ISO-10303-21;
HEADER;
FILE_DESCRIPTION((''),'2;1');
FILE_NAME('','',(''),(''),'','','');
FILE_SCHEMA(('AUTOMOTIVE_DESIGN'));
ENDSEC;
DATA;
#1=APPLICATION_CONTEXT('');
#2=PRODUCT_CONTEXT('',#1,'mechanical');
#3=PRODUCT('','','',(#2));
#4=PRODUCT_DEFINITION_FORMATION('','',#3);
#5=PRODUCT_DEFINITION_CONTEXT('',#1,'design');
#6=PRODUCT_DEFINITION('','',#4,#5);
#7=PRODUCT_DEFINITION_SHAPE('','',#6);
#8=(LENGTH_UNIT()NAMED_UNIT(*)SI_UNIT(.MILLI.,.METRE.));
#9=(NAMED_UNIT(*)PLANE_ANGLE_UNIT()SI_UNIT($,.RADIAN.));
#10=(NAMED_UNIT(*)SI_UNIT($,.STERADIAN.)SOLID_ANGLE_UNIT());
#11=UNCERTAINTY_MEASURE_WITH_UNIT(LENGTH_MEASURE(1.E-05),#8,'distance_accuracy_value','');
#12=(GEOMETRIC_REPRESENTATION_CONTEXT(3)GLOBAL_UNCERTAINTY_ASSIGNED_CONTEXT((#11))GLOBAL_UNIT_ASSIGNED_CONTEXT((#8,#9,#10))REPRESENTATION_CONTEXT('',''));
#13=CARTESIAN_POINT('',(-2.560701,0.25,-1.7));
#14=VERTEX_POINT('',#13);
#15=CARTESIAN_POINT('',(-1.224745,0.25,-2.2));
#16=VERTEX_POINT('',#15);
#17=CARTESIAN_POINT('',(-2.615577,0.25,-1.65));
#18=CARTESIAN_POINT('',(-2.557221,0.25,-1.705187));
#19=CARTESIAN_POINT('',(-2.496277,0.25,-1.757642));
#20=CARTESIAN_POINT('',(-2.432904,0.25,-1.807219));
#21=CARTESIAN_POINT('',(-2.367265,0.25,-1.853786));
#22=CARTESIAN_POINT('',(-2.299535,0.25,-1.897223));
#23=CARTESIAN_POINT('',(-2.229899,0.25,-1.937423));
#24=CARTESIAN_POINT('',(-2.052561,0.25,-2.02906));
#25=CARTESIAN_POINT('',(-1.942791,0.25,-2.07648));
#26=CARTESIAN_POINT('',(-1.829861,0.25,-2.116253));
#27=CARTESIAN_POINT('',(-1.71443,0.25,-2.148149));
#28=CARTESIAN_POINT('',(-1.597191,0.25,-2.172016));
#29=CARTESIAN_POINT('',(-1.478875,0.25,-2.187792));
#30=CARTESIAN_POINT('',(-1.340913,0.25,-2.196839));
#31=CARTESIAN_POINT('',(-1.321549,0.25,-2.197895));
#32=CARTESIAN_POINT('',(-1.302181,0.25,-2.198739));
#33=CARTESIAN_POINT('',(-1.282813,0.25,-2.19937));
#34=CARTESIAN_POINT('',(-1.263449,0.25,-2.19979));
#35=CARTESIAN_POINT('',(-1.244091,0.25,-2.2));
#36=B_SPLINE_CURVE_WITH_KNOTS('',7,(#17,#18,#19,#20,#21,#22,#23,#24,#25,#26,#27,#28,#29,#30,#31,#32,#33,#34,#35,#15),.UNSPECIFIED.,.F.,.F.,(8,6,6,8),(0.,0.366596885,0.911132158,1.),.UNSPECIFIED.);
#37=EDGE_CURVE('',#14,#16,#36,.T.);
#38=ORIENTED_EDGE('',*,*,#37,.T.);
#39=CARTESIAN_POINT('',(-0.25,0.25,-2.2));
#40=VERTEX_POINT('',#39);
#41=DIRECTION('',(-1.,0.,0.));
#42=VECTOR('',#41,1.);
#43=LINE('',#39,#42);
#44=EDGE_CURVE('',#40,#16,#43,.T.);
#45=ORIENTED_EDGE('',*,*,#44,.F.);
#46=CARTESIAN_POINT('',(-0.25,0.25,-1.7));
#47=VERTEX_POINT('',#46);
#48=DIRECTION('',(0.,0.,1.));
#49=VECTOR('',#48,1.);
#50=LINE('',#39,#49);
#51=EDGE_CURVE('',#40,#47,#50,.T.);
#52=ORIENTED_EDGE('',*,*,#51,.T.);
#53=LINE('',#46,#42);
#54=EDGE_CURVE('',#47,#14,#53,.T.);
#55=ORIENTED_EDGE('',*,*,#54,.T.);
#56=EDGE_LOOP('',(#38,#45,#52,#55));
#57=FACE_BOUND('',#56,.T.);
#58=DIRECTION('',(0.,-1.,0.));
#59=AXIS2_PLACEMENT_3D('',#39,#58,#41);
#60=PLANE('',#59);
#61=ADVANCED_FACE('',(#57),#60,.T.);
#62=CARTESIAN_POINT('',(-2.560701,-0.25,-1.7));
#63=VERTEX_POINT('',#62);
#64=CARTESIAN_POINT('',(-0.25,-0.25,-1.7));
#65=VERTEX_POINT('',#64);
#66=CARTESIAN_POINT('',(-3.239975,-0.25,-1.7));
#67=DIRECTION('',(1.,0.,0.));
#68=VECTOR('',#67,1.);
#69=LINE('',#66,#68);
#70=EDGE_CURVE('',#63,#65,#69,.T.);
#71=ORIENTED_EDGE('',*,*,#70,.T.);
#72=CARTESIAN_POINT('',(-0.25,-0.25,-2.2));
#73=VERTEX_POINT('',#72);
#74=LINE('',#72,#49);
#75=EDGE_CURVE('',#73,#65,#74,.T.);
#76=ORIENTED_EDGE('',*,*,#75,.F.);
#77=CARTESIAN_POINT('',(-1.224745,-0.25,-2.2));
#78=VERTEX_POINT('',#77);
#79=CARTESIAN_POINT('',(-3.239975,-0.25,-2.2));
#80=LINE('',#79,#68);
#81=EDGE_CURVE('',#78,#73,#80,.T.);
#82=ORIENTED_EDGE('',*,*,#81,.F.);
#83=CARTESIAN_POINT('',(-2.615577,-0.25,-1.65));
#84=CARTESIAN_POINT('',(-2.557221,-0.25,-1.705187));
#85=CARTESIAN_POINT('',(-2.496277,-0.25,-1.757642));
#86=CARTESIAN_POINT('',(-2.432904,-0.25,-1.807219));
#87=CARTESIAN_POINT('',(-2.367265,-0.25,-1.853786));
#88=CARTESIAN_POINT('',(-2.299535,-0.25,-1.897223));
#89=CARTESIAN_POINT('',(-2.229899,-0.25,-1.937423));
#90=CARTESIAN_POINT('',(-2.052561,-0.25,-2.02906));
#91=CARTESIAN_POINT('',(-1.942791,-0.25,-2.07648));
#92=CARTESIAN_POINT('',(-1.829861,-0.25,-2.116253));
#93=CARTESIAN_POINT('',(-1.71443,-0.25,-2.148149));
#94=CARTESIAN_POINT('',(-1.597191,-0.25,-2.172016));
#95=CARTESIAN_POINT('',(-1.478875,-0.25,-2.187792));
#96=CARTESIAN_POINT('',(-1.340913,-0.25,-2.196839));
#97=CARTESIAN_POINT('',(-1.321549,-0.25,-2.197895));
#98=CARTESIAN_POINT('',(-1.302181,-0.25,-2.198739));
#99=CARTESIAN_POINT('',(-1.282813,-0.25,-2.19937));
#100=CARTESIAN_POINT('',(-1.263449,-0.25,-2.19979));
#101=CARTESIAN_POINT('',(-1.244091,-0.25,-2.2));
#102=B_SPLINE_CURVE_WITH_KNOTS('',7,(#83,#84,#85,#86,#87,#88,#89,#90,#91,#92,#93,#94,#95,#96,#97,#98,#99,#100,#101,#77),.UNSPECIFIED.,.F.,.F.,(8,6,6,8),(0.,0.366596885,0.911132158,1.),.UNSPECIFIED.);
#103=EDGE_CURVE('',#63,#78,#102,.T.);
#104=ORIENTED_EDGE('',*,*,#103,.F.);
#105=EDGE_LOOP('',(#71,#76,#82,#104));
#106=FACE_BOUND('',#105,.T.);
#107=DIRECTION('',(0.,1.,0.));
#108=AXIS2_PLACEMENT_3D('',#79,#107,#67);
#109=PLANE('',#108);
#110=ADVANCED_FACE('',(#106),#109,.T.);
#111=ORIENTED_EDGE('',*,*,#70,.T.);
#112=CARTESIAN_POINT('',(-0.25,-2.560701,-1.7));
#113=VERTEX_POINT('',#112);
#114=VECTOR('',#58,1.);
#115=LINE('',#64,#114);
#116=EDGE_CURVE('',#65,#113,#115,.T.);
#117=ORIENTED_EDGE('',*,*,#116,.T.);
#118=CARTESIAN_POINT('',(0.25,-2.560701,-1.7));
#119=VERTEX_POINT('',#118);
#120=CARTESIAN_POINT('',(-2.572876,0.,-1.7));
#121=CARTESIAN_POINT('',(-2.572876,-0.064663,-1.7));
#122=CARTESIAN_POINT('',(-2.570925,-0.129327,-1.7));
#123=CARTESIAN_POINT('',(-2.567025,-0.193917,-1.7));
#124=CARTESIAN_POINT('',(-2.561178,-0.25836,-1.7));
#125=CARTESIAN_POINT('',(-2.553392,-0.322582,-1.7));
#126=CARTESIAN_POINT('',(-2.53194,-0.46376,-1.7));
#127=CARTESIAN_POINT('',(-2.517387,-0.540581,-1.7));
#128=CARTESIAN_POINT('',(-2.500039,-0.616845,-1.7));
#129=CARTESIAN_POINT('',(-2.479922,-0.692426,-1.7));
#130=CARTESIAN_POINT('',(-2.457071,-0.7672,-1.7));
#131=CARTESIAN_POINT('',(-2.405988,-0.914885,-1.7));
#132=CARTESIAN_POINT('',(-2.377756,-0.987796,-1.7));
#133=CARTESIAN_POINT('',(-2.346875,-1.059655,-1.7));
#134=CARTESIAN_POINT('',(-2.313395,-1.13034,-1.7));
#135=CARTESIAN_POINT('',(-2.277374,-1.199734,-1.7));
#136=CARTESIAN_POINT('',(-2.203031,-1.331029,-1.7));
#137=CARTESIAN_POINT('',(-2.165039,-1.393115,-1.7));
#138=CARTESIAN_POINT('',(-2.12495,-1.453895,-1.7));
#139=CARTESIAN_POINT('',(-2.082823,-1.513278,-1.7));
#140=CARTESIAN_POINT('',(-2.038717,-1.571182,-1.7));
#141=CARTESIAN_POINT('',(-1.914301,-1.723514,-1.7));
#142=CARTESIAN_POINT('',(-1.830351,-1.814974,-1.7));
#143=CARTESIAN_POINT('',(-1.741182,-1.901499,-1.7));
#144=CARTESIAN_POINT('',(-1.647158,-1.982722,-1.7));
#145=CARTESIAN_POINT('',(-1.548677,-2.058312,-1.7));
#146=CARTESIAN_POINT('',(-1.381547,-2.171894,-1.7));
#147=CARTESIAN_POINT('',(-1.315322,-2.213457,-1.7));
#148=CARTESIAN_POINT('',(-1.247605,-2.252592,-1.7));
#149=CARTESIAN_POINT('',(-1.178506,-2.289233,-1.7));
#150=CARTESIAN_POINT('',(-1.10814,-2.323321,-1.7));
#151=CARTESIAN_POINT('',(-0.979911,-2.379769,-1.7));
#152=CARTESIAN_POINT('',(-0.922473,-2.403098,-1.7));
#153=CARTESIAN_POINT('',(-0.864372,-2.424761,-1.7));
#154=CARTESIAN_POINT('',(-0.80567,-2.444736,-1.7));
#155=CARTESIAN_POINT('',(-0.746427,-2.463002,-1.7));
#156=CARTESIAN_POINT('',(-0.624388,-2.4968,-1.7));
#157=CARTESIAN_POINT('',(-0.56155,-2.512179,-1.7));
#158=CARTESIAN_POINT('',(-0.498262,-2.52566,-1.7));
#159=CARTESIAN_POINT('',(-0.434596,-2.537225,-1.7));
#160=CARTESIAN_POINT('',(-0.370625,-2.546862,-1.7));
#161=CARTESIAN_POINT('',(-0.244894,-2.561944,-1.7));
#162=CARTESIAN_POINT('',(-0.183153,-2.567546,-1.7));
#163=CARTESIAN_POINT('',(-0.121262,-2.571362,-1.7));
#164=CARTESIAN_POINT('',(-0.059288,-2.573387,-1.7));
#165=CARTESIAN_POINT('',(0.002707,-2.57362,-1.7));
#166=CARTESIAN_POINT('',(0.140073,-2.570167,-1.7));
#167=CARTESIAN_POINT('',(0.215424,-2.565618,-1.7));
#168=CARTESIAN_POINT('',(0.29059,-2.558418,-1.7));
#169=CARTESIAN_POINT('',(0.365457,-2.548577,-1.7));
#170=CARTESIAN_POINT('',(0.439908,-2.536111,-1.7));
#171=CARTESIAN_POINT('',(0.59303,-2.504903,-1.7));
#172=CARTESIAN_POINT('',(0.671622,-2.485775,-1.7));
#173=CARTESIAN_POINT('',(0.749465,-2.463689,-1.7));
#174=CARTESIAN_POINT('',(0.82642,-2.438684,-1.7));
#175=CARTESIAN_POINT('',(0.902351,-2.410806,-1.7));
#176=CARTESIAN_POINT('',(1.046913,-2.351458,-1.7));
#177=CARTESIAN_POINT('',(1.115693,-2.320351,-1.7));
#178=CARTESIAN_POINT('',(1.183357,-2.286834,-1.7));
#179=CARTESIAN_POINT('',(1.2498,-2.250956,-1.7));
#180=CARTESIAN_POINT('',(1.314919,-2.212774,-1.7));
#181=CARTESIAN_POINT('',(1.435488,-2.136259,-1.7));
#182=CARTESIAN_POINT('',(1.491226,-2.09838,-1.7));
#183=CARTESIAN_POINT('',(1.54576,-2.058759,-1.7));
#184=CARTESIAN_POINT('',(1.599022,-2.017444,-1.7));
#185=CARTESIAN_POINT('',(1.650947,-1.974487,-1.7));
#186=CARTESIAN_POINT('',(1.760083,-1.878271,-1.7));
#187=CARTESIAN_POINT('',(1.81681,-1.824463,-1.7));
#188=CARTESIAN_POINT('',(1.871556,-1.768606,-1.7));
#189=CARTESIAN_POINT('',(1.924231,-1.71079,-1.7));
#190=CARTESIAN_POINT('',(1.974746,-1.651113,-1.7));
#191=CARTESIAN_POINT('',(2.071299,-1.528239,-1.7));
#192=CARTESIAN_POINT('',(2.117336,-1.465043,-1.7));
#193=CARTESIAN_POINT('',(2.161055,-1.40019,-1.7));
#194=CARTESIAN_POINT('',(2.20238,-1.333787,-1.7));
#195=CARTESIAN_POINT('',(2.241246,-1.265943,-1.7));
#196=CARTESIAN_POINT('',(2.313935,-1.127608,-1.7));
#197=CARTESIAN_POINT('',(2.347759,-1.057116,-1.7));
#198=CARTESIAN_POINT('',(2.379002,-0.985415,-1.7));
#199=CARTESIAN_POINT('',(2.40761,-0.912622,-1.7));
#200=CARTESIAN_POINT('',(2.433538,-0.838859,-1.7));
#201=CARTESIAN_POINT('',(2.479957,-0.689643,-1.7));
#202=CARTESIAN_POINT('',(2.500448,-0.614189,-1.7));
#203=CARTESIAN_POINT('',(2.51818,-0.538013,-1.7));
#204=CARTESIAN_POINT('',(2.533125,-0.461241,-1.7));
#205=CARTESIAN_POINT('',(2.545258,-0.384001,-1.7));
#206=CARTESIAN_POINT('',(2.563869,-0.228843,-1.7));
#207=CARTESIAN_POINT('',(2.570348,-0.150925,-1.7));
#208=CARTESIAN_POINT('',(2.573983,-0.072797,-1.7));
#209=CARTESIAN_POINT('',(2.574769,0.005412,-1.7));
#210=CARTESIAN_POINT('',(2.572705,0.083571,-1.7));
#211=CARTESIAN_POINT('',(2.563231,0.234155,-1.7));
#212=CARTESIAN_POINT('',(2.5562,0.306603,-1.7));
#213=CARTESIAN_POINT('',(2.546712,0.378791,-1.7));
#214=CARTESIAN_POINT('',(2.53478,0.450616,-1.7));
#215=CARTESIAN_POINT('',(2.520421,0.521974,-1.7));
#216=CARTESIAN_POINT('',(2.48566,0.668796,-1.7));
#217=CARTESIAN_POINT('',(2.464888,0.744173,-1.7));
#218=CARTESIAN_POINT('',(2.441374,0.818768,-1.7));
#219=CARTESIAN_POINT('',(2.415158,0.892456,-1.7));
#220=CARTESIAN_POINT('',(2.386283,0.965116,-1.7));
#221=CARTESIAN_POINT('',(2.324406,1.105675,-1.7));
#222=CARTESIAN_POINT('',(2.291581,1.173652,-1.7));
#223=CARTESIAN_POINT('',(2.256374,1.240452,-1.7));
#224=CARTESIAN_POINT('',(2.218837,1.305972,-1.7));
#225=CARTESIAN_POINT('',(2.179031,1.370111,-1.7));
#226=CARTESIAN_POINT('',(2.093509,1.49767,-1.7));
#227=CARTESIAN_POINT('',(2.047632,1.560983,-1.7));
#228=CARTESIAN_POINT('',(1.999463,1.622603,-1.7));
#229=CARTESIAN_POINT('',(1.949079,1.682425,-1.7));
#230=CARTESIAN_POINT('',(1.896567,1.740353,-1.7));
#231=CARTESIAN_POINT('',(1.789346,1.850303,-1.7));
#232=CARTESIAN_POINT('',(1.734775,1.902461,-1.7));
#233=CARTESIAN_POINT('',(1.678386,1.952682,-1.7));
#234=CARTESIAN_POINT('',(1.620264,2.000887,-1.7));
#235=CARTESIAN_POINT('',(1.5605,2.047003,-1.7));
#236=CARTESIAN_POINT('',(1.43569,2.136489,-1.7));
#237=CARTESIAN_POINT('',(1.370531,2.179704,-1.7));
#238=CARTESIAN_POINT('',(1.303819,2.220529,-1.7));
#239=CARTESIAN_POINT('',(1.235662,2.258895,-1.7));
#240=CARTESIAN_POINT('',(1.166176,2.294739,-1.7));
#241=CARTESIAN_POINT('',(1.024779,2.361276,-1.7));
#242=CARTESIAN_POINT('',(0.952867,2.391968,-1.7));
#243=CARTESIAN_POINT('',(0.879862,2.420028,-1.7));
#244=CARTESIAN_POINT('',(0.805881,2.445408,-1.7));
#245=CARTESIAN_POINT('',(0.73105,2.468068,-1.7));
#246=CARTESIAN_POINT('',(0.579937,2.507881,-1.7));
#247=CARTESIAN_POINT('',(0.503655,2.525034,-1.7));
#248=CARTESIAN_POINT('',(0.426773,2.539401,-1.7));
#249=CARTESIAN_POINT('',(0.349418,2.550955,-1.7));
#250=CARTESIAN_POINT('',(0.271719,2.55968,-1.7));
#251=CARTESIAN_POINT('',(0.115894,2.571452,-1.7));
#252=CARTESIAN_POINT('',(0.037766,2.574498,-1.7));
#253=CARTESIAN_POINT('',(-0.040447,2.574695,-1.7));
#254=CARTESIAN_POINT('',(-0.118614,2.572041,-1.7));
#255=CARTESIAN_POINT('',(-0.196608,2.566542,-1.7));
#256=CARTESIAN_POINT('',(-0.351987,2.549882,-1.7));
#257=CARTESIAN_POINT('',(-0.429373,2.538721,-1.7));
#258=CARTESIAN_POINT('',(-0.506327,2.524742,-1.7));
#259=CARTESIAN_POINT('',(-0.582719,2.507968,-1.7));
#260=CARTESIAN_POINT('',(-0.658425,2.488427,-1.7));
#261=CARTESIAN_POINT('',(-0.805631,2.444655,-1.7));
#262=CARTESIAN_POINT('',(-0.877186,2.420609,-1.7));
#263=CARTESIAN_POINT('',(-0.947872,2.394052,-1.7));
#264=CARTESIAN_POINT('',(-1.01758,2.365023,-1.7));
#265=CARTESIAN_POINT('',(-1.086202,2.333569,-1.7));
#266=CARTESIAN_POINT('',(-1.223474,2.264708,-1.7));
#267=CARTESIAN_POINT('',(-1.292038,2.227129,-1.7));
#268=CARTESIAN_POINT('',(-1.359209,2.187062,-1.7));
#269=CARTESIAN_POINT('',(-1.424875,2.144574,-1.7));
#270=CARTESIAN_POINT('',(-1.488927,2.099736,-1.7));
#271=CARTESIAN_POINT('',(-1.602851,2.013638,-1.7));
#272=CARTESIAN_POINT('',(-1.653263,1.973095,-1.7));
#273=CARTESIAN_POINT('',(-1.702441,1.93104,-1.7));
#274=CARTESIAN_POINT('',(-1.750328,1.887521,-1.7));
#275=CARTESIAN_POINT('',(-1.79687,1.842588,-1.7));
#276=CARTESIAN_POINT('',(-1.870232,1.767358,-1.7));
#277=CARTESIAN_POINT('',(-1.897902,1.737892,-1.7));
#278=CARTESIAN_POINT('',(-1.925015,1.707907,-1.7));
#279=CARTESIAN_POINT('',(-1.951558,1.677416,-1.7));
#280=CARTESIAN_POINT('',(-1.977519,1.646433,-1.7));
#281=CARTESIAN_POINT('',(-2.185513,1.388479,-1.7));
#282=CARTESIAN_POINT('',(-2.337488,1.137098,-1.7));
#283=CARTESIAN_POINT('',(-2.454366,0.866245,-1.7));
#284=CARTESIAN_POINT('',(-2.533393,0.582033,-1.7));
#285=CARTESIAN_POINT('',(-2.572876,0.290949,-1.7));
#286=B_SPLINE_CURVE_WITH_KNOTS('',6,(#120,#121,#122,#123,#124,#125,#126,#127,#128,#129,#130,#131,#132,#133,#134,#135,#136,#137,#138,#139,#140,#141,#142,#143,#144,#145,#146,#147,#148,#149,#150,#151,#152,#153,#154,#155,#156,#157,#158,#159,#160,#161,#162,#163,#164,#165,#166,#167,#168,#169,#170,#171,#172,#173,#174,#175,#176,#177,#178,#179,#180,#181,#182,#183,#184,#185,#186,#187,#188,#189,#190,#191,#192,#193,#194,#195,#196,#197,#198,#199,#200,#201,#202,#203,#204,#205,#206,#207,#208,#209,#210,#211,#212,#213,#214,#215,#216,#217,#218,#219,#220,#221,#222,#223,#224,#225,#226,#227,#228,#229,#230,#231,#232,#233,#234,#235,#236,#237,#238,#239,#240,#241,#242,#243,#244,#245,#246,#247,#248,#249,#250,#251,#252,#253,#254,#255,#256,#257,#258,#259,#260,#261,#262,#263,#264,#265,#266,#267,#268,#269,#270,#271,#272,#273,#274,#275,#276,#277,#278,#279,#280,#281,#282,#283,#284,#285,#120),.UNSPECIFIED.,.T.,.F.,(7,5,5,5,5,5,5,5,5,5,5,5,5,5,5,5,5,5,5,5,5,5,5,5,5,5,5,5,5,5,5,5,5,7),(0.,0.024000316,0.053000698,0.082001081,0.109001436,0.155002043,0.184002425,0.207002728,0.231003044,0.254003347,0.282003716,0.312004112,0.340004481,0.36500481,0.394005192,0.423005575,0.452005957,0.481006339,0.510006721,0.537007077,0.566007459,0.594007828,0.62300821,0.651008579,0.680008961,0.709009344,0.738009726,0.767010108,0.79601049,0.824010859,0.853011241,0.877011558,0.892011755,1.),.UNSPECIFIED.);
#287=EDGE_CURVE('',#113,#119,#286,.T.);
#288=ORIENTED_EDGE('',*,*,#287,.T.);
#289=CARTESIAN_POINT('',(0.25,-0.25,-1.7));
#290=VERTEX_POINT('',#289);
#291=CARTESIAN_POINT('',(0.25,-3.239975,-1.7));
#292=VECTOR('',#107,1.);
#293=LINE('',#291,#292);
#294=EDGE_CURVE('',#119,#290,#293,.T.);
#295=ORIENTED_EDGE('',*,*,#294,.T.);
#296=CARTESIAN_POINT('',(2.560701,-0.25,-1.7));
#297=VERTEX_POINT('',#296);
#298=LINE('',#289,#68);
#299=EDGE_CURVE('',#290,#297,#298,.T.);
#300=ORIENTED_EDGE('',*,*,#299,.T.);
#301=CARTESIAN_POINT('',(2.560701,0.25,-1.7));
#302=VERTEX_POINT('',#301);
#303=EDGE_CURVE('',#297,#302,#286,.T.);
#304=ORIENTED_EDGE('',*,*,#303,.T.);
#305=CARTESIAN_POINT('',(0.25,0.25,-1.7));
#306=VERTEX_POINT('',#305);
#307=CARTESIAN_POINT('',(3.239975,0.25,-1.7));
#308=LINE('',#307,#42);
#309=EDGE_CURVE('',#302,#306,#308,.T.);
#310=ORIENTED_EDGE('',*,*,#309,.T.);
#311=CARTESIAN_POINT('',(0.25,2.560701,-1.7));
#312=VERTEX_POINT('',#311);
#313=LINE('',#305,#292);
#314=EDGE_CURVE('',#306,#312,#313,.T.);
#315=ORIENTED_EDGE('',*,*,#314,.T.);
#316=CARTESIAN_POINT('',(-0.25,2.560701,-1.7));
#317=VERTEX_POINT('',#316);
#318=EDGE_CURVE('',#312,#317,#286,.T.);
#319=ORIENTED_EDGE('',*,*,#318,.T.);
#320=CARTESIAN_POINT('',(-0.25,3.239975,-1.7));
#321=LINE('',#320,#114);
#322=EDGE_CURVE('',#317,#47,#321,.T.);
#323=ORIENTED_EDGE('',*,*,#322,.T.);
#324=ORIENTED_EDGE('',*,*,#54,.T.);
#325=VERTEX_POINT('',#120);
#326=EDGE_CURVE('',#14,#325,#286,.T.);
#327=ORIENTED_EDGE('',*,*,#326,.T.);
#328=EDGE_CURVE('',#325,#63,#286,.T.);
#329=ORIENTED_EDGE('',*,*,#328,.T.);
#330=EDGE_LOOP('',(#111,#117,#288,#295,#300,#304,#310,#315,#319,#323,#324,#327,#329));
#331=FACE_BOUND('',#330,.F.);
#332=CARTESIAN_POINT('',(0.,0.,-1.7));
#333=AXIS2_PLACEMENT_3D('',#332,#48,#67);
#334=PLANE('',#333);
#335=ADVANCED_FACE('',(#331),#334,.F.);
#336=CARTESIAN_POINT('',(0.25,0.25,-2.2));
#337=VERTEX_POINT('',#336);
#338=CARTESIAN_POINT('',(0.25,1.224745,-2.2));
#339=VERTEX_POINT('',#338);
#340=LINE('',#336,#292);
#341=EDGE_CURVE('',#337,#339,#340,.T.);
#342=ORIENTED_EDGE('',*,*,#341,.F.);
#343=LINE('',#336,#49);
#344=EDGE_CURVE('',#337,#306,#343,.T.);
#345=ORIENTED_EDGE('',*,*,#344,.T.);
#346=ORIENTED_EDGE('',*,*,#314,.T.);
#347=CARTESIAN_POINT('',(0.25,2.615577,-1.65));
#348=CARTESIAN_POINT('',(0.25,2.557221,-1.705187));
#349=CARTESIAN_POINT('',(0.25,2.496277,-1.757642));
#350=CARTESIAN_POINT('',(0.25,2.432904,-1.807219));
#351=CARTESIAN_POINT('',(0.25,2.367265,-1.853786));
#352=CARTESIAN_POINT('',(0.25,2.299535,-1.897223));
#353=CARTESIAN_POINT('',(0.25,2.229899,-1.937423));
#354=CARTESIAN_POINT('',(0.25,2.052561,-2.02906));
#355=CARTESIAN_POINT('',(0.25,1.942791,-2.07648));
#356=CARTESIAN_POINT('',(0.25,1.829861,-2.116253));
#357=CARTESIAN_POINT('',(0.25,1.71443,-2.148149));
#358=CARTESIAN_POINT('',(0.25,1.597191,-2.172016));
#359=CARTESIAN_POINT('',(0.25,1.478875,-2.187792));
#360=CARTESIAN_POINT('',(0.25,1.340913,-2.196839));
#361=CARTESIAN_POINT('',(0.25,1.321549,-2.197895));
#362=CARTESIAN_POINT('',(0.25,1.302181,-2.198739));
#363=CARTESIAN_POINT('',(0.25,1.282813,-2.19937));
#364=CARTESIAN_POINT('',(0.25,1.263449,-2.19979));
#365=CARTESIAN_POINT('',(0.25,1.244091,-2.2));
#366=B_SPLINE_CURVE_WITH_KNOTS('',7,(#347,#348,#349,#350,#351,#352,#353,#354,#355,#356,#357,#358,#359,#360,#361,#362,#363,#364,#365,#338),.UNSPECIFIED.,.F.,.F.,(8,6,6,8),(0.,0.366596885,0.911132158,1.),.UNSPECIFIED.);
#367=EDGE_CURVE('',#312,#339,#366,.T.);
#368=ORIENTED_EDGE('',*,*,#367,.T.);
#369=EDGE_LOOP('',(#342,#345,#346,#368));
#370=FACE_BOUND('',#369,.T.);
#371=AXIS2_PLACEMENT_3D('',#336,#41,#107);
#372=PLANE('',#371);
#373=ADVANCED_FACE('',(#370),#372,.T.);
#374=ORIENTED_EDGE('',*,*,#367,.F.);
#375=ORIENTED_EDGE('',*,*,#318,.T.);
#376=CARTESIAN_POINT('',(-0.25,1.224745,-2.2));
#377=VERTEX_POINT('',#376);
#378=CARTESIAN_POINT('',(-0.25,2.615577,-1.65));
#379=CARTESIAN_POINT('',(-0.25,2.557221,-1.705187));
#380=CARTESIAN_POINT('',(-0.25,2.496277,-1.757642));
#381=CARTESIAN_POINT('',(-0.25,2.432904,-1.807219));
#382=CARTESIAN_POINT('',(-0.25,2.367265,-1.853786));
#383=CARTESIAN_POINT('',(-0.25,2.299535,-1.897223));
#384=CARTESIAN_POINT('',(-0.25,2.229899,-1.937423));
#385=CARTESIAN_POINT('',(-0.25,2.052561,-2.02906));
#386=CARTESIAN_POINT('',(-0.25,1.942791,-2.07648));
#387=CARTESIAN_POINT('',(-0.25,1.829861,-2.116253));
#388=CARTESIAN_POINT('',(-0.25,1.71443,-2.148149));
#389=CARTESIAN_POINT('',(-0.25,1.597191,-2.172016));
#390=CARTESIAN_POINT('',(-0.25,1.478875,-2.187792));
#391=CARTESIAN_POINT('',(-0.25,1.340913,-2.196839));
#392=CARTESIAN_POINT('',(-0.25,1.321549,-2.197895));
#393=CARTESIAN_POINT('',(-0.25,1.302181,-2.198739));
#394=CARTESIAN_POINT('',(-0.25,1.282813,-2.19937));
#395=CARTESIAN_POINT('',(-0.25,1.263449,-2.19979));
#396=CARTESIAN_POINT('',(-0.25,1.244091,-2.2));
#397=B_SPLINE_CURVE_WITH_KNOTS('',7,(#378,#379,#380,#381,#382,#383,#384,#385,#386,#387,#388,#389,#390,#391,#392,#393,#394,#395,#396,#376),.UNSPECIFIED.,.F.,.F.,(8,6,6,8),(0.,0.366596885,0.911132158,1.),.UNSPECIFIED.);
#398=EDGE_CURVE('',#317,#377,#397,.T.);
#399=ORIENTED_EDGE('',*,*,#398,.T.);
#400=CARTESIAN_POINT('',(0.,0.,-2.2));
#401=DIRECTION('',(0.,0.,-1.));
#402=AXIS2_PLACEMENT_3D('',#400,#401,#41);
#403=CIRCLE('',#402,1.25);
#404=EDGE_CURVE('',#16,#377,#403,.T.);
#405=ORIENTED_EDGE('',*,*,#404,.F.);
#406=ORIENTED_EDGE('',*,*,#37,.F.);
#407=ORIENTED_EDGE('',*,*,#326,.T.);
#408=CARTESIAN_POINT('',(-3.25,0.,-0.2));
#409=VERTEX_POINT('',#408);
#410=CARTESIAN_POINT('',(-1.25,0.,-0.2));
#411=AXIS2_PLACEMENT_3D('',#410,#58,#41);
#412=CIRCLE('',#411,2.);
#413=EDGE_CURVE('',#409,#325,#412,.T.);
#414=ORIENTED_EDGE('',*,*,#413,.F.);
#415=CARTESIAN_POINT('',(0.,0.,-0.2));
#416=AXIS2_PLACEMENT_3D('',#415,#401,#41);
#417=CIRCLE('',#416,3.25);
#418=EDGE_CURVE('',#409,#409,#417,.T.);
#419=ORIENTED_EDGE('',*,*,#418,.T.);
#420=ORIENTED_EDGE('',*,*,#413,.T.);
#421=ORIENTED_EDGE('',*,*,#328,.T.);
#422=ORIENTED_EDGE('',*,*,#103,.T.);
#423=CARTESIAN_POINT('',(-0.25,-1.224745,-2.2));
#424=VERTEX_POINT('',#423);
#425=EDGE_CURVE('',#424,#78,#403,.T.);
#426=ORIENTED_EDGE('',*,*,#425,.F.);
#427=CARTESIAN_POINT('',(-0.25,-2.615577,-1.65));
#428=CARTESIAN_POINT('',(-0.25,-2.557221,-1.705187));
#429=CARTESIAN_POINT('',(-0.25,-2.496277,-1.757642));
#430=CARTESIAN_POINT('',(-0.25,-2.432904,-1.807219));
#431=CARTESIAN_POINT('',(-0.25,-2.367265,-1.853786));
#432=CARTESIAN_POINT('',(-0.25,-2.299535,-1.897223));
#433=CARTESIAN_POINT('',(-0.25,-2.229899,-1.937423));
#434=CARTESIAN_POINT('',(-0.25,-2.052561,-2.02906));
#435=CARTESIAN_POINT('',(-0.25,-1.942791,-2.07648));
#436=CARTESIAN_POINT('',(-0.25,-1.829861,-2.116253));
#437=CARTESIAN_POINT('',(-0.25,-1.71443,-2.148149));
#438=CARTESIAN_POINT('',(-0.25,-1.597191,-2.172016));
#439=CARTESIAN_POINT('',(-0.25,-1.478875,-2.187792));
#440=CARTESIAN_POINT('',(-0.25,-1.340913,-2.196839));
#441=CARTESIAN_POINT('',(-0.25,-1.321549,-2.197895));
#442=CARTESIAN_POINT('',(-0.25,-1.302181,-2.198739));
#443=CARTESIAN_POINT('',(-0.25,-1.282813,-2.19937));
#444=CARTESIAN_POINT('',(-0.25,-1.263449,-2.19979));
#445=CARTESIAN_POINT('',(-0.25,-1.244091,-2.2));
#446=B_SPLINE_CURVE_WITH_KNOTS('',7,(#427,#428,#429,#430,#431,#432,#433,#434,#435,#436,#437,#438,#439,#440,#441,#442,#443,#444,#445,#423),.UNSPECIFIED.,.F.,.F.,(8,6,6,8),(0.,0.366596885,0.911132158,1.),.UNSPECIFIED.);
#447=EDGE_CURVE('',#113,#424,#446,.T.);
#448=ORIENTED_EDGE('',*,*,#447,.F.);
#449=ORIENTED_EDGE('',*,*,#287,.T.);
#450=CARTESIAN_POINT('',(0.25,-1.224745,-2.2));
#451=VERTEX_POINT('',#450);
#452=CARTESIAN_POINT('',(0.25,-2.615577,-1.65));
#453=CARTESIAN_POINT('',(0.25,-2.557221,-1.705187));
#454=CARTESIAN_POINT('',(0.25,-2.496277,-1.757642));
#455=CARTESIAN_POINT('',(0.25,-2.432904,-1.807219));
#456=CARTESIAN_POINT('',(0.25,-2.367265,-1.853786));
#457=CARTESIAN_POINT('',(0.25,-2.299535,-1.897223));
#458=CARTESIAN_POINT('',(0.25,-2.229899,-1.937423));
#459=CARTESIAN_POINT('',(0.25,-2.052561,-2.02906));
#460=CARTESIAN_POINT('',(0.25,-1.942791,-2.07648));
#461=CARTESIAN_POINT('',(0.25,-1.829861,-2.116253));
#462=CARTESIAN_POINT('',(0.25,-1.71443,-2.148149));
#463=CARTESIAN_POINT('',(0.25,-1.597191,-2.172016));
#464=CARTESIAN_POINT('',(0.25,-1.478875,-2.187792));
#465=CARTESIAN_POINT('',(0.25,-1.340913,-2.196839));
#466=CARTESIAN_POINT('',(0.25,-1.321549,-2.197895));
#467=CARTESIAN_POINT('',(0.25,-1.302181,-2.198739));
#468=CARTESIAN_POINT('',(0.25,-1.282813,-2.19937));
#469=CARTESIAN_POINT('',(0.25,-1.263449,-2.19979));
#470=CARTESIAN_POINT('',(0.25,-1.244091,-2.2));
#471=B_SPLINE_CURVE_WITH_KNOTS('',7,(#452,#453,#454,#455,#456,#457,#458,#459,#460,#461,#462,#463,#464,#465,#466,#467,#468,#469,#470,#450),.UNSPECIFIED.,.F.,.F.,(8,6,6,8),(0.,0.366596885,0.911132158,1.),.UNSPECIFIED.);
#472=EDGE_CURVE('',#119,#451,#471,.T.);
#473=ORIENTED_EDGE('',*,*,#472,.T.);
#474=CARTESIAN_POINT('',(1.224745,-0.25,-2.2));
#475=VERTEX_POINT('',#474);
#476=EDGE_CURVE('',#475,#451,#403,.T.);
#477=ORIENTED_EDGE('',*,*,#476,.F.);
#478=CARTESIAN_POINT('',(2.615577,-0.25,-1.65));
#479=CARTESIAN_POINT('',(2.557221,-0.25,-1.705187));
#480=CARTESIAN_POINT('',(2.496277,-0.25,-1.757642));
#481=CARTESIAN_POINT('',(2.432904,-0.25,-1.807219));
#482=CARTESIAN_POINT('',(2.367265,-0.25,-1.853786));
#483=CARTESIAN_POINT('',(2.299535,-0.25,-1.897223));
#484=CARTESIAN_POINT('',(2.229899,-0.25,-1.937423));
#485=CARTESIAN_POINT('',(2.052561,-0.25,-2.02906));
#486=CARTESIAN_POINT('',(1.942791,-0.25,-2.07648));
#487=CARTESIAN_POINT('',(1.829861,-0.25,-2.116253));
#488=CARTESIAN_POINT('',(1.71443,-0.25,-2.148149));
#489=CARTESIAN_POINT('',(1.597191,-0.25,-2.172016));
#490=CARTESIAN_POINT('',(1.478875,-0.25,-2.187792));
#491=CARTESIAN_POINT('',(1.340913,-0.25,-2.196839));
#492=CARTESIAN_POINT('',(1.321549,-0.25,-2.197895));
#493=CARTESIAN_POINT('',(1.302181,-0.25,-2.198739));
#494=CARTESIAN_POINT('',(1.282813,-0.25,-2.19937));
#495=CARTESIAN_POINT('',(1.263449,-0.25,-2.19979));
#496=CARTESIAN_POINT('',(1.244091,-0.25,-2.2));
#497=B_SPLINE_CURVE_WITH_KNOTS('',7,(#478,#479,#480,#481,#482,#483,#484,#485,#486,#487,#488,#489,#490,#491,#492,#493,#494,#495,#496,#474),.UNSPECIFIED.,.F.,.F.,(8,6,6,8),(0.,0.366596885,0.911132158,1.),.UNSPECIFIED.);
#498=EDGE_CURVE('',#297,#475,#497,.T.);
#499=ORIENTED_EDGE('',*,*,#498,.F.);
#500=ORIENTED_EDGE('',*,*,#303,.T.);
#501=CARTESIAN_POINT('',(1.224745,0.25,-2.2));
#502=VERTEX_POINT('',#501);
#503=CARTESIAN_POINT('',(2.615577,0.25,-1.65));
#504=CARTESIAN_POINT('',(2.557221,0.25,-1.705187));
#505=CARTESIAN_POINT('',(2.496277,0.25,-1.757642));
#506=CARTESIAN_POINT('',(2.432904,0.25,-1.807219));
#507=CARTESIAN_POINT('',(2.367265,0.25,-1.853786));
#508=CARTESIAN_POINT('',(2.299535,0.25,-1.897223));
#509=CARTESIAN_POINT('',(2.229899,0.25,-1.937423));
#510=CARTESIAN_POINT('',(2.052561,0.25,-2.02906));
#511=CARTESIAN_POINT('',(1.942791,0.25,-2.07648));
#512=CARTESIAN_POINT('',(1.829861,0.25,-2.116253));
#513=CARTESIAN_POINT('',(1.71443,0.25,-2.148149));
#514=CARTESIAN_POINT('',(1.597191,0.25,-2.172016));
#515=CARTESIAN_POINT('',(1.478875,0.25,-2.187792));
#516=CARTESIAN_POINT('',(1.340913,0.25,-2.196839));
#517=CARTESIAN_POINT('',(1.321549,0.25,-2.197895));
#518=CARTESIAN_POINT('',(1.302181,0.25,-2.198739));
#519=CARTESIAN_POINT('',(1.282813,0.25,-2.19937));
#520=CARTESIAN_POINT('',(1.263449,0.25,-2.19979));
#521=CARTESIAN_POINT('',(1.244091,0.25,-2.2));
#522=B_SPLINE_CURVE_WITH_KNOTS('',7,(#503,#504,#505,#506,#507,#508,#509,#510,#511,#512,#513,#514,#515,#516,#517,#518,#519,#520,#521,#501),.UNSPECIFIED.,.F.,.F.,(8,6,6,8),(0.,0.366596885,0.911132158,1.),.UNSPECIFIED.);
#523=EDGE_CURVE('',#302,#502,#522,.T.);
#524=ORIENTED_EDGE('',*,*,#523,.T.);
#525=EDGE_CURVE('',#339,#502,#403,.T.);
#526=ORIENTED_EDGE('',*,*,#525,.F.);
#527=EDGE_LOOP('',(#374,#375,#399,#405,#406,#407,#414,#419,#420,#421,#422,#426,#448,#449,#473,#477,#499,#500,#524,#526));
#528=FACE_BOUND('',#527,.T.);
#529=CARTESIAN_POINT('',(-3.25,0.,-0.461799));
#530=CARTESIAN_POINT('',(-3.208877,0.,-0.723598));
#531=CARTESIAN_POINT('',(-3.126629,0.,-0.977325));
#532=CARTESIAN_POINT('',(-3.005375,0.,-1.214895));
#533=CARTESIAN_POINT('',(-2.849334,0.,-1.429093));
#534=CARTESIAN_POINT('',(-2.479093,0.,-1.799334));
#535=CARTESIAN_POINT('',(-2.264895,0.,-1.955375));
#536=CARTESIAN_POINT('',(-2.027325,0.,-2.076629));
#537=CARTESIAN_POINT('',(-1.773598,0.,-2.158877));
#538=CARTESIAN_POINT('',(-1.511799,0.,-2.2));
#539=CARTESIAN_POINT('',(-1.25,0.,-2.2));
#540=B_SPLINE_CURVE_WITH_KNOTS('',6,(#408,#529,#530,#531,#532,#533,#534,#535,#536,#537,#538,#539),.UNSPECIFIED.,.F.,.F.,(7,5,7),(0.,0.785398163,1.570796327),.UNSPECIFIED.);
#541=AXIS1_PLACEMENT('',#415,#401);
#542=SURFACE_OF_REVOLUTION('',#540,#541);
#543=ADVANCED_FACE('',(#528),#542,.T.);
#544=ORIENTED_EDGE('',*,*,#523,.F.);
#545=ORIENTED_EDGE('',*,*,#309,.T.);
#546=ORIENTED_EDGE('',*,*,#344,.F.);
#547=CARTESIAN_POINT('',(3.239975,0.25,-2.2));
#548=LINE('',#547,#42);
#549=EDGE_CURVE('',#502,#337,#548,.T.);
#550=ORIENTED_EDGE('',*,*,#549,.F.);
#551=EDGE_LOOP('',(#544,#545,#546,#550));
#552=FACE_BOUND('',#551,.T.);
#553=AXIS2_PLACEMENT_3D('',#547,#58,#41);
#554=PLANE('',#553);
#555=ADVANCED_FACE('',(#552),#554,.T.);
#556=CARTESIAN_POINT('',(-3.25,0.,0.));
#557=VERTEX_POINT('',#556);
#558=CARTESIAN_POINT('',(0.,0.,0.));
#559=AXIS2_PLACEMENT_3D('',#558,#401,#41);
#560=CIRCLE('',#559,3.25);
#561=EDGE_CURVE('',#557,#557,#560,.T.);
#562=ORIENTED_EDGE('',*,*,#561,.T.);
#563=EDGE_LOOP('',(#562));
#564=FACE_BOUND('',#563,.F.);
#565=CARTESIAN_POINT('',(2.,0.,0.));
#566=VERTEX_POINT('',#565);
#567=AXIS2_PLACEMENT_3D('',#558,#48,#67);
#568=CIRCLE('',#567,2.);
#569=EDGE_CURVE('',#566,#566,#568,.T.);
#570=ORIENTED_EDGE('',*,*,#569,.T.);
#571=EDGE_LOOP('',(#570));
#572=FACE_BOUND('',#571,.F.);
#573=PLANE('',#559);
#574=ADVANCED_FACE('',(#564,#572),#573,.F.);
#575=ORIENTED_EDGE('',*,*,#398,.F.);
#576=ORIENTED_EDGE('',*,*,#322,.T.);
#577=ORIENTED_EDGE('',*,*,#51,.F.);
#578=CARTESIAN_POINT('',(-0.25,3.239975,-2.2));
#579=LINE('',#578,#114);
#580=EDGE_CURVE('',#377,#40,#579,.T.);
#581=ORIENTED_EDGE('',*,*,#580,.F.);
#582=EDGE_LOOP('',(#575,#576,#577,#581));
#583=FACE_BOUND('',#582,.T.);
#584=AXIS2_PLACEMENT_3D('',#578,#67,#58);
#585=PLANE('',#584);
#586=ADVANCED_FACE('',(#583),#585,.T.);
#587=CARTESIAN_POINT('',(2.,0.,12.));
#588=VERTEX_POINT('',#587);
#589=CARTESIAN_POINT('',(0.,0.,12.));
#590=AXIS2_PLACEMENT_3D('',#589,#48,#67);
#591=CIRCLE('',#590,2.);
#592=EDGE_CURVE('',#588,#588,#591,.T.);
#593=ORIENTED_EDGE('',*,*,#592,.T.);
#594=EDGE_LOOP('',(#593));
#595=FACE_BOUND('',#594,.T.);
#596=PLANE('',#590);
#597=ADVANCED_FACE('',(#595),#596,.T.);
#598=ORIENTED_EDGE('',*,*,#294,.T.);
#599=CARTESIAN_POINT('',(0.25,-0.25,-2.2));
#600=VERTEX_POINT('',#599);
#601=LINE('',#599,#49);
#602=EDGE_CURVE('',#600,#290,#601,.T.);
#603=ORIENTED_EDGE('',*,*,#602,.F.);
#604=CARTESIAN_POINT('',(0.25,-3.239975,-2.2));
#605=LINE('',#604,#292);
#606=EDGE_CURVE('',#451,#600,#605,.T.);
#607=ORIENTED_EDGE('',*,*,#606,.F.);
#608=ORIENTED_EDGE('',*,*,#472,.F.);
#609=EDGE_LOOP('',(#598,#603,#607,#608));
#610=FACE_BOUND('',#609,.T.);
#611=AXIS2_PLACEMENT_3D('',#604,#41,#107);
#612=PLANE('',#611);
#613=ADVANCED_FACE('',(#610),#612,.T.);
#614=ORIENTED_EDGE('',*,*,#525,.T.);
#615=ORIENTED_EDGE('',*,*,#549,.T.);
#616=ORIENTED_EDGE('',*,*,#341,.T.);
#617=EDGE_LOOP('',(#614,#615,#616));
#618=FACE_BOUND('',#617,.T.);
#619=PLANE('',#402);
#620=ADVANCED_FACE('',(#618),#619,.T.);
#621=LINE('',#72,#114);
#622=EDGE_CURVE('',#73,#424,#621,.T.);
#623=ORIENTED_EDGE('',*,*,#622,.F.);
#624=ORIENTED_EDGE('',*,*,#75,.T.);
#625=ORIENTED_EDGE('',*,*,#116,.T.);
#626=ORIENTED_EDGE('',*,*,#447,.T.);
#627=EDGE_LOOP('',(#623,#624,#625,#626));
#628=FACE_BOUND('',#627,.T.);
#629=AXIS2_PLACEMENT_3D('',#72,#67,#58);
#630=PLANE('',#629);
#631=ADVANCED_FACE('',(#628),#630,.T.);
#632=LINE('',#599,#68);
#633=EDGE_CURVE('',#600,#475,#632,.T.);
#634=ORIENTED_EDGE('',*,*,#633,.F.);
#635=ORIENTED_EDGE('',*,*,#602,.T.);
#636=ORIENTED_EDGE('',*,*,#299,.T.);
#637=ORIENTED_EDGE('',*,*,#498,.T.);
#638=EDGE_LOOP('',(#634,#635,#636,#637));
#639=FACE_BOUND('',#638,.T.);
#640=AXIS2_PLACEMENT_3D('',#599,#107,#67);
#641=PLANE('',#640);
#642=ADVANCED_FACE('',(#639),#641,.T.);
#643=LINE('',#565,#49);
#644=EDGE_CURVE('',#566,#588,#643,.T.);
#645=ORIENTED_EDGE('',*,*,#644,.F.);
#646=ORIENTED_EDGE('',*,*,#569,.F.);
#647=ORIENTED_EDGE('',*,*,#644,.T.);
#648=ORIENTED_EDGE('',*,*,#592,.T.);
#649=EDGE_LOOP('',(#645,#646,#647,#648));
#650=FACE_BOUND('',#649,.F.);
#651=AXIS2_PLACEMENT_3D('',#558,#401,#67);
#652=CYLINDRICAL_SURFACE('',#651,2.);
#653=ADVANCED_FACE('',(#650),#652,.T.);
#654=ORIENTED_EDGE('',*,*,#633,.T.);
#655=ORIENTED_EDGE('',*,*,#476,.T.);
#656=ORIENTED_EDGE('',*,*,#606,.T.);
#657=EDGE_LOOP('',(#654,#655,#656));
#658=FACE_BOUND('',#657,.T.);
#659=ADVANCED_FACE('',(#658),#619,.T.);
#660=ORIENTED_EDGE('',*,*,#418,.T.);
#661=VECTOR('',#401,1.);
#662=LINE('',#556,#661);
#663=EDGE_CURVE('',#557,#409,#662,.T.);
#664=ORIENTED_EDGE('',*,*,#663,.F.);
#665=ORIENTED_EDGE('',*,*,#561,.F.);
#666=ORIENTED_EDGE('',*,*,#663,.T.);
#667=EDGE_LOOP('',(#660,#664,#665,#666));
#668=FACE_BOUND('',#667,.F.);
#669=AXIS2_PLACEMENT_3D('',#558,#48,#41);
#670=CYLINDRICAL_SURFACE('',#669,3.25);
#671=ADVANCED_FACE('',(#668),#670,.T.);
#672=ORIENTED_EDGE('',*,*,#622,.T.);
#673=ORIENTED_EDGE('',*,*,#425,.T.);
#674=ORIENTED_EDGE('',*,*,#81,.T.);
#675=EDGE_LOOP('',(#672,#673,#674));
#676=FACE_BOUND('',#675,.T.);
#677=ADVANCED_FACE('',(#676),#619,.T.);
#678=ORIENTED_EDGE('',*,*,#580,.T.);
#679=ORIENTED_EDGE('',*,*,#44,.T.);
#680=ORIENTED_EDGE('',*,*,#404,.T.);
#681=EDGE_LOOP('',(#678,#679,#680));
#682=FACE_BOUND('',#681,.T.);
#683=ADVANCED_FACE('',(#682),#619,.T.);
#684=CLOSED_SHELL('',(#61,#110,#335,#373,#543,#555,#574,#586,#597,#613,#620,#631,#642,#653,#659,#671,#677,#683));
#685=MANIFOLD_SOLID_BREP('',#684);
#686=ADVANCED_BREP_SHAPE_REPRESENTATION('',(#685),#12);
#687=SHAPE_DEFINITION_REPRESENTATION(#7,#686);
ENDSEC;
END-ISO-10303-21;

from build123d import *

# Parameters (mm, degrees)
SKETCH_1_R          = 2
EXTRUDE_1_DEPTH     = 12
SKETCH_2_R          = 3.25
EXTRUDE_2_DEPTH     = 2.2
FILLET_1_R          = 2
CUT_EXTRUDE_1_DEPTH = 0.5


with BuildPart() as part:
    # 草图1 → 凸台-拉伸1 (new body)
    with BuildSketch(Plane.XY):
        Circle(SKETCH_1_R)
    extrude(amount=EXTRUDE_1_DEPTH)

    # 草图2 → 凸台-拉伸2 (add)
    with BuildSketch(Plane(origin=(0, 0, 0), x_dir=(-1, 0, 0), z_dir=(0, 0, -1))):
        Circle(SKETCH_2_R)
    extrude(amount=EXTRUDE_2_DEPTH)

    # 圆角1
    fillet_1_edges = [part.edges().sort_by_distance(p)[0] for p in [
        (3.25, 0, -2.2),
    ]]
    fillet(fillet_1_edges, radius=FILLET_1_R)

    # 草图3 → 切除-拉伸1 (cut)
    with BuildSketch(Plane(origin=(0, 0, -2.2), x_dir=(-1, 0, 0), z_dir=(0, 0, -1))):
        Polygon((3.239974874, 0.25), (3.239974874, -0.25), (0.25, -0.25), (0.25, -3.239974874), (-0.25, -3.239974874), (-0.25, -0.25), (-3.239974874, -0.25), (-3.239974874, 0.25), (-0.25, 0.25), (-0.25, 3.239974874), (0.25, 3.239974874), (0.25, 0.25), align=None)
    extrude(amount=-CUT_EXTRUDE_1_DEPTH, mode=Mode.SUBTRACT)


solid = part.part
